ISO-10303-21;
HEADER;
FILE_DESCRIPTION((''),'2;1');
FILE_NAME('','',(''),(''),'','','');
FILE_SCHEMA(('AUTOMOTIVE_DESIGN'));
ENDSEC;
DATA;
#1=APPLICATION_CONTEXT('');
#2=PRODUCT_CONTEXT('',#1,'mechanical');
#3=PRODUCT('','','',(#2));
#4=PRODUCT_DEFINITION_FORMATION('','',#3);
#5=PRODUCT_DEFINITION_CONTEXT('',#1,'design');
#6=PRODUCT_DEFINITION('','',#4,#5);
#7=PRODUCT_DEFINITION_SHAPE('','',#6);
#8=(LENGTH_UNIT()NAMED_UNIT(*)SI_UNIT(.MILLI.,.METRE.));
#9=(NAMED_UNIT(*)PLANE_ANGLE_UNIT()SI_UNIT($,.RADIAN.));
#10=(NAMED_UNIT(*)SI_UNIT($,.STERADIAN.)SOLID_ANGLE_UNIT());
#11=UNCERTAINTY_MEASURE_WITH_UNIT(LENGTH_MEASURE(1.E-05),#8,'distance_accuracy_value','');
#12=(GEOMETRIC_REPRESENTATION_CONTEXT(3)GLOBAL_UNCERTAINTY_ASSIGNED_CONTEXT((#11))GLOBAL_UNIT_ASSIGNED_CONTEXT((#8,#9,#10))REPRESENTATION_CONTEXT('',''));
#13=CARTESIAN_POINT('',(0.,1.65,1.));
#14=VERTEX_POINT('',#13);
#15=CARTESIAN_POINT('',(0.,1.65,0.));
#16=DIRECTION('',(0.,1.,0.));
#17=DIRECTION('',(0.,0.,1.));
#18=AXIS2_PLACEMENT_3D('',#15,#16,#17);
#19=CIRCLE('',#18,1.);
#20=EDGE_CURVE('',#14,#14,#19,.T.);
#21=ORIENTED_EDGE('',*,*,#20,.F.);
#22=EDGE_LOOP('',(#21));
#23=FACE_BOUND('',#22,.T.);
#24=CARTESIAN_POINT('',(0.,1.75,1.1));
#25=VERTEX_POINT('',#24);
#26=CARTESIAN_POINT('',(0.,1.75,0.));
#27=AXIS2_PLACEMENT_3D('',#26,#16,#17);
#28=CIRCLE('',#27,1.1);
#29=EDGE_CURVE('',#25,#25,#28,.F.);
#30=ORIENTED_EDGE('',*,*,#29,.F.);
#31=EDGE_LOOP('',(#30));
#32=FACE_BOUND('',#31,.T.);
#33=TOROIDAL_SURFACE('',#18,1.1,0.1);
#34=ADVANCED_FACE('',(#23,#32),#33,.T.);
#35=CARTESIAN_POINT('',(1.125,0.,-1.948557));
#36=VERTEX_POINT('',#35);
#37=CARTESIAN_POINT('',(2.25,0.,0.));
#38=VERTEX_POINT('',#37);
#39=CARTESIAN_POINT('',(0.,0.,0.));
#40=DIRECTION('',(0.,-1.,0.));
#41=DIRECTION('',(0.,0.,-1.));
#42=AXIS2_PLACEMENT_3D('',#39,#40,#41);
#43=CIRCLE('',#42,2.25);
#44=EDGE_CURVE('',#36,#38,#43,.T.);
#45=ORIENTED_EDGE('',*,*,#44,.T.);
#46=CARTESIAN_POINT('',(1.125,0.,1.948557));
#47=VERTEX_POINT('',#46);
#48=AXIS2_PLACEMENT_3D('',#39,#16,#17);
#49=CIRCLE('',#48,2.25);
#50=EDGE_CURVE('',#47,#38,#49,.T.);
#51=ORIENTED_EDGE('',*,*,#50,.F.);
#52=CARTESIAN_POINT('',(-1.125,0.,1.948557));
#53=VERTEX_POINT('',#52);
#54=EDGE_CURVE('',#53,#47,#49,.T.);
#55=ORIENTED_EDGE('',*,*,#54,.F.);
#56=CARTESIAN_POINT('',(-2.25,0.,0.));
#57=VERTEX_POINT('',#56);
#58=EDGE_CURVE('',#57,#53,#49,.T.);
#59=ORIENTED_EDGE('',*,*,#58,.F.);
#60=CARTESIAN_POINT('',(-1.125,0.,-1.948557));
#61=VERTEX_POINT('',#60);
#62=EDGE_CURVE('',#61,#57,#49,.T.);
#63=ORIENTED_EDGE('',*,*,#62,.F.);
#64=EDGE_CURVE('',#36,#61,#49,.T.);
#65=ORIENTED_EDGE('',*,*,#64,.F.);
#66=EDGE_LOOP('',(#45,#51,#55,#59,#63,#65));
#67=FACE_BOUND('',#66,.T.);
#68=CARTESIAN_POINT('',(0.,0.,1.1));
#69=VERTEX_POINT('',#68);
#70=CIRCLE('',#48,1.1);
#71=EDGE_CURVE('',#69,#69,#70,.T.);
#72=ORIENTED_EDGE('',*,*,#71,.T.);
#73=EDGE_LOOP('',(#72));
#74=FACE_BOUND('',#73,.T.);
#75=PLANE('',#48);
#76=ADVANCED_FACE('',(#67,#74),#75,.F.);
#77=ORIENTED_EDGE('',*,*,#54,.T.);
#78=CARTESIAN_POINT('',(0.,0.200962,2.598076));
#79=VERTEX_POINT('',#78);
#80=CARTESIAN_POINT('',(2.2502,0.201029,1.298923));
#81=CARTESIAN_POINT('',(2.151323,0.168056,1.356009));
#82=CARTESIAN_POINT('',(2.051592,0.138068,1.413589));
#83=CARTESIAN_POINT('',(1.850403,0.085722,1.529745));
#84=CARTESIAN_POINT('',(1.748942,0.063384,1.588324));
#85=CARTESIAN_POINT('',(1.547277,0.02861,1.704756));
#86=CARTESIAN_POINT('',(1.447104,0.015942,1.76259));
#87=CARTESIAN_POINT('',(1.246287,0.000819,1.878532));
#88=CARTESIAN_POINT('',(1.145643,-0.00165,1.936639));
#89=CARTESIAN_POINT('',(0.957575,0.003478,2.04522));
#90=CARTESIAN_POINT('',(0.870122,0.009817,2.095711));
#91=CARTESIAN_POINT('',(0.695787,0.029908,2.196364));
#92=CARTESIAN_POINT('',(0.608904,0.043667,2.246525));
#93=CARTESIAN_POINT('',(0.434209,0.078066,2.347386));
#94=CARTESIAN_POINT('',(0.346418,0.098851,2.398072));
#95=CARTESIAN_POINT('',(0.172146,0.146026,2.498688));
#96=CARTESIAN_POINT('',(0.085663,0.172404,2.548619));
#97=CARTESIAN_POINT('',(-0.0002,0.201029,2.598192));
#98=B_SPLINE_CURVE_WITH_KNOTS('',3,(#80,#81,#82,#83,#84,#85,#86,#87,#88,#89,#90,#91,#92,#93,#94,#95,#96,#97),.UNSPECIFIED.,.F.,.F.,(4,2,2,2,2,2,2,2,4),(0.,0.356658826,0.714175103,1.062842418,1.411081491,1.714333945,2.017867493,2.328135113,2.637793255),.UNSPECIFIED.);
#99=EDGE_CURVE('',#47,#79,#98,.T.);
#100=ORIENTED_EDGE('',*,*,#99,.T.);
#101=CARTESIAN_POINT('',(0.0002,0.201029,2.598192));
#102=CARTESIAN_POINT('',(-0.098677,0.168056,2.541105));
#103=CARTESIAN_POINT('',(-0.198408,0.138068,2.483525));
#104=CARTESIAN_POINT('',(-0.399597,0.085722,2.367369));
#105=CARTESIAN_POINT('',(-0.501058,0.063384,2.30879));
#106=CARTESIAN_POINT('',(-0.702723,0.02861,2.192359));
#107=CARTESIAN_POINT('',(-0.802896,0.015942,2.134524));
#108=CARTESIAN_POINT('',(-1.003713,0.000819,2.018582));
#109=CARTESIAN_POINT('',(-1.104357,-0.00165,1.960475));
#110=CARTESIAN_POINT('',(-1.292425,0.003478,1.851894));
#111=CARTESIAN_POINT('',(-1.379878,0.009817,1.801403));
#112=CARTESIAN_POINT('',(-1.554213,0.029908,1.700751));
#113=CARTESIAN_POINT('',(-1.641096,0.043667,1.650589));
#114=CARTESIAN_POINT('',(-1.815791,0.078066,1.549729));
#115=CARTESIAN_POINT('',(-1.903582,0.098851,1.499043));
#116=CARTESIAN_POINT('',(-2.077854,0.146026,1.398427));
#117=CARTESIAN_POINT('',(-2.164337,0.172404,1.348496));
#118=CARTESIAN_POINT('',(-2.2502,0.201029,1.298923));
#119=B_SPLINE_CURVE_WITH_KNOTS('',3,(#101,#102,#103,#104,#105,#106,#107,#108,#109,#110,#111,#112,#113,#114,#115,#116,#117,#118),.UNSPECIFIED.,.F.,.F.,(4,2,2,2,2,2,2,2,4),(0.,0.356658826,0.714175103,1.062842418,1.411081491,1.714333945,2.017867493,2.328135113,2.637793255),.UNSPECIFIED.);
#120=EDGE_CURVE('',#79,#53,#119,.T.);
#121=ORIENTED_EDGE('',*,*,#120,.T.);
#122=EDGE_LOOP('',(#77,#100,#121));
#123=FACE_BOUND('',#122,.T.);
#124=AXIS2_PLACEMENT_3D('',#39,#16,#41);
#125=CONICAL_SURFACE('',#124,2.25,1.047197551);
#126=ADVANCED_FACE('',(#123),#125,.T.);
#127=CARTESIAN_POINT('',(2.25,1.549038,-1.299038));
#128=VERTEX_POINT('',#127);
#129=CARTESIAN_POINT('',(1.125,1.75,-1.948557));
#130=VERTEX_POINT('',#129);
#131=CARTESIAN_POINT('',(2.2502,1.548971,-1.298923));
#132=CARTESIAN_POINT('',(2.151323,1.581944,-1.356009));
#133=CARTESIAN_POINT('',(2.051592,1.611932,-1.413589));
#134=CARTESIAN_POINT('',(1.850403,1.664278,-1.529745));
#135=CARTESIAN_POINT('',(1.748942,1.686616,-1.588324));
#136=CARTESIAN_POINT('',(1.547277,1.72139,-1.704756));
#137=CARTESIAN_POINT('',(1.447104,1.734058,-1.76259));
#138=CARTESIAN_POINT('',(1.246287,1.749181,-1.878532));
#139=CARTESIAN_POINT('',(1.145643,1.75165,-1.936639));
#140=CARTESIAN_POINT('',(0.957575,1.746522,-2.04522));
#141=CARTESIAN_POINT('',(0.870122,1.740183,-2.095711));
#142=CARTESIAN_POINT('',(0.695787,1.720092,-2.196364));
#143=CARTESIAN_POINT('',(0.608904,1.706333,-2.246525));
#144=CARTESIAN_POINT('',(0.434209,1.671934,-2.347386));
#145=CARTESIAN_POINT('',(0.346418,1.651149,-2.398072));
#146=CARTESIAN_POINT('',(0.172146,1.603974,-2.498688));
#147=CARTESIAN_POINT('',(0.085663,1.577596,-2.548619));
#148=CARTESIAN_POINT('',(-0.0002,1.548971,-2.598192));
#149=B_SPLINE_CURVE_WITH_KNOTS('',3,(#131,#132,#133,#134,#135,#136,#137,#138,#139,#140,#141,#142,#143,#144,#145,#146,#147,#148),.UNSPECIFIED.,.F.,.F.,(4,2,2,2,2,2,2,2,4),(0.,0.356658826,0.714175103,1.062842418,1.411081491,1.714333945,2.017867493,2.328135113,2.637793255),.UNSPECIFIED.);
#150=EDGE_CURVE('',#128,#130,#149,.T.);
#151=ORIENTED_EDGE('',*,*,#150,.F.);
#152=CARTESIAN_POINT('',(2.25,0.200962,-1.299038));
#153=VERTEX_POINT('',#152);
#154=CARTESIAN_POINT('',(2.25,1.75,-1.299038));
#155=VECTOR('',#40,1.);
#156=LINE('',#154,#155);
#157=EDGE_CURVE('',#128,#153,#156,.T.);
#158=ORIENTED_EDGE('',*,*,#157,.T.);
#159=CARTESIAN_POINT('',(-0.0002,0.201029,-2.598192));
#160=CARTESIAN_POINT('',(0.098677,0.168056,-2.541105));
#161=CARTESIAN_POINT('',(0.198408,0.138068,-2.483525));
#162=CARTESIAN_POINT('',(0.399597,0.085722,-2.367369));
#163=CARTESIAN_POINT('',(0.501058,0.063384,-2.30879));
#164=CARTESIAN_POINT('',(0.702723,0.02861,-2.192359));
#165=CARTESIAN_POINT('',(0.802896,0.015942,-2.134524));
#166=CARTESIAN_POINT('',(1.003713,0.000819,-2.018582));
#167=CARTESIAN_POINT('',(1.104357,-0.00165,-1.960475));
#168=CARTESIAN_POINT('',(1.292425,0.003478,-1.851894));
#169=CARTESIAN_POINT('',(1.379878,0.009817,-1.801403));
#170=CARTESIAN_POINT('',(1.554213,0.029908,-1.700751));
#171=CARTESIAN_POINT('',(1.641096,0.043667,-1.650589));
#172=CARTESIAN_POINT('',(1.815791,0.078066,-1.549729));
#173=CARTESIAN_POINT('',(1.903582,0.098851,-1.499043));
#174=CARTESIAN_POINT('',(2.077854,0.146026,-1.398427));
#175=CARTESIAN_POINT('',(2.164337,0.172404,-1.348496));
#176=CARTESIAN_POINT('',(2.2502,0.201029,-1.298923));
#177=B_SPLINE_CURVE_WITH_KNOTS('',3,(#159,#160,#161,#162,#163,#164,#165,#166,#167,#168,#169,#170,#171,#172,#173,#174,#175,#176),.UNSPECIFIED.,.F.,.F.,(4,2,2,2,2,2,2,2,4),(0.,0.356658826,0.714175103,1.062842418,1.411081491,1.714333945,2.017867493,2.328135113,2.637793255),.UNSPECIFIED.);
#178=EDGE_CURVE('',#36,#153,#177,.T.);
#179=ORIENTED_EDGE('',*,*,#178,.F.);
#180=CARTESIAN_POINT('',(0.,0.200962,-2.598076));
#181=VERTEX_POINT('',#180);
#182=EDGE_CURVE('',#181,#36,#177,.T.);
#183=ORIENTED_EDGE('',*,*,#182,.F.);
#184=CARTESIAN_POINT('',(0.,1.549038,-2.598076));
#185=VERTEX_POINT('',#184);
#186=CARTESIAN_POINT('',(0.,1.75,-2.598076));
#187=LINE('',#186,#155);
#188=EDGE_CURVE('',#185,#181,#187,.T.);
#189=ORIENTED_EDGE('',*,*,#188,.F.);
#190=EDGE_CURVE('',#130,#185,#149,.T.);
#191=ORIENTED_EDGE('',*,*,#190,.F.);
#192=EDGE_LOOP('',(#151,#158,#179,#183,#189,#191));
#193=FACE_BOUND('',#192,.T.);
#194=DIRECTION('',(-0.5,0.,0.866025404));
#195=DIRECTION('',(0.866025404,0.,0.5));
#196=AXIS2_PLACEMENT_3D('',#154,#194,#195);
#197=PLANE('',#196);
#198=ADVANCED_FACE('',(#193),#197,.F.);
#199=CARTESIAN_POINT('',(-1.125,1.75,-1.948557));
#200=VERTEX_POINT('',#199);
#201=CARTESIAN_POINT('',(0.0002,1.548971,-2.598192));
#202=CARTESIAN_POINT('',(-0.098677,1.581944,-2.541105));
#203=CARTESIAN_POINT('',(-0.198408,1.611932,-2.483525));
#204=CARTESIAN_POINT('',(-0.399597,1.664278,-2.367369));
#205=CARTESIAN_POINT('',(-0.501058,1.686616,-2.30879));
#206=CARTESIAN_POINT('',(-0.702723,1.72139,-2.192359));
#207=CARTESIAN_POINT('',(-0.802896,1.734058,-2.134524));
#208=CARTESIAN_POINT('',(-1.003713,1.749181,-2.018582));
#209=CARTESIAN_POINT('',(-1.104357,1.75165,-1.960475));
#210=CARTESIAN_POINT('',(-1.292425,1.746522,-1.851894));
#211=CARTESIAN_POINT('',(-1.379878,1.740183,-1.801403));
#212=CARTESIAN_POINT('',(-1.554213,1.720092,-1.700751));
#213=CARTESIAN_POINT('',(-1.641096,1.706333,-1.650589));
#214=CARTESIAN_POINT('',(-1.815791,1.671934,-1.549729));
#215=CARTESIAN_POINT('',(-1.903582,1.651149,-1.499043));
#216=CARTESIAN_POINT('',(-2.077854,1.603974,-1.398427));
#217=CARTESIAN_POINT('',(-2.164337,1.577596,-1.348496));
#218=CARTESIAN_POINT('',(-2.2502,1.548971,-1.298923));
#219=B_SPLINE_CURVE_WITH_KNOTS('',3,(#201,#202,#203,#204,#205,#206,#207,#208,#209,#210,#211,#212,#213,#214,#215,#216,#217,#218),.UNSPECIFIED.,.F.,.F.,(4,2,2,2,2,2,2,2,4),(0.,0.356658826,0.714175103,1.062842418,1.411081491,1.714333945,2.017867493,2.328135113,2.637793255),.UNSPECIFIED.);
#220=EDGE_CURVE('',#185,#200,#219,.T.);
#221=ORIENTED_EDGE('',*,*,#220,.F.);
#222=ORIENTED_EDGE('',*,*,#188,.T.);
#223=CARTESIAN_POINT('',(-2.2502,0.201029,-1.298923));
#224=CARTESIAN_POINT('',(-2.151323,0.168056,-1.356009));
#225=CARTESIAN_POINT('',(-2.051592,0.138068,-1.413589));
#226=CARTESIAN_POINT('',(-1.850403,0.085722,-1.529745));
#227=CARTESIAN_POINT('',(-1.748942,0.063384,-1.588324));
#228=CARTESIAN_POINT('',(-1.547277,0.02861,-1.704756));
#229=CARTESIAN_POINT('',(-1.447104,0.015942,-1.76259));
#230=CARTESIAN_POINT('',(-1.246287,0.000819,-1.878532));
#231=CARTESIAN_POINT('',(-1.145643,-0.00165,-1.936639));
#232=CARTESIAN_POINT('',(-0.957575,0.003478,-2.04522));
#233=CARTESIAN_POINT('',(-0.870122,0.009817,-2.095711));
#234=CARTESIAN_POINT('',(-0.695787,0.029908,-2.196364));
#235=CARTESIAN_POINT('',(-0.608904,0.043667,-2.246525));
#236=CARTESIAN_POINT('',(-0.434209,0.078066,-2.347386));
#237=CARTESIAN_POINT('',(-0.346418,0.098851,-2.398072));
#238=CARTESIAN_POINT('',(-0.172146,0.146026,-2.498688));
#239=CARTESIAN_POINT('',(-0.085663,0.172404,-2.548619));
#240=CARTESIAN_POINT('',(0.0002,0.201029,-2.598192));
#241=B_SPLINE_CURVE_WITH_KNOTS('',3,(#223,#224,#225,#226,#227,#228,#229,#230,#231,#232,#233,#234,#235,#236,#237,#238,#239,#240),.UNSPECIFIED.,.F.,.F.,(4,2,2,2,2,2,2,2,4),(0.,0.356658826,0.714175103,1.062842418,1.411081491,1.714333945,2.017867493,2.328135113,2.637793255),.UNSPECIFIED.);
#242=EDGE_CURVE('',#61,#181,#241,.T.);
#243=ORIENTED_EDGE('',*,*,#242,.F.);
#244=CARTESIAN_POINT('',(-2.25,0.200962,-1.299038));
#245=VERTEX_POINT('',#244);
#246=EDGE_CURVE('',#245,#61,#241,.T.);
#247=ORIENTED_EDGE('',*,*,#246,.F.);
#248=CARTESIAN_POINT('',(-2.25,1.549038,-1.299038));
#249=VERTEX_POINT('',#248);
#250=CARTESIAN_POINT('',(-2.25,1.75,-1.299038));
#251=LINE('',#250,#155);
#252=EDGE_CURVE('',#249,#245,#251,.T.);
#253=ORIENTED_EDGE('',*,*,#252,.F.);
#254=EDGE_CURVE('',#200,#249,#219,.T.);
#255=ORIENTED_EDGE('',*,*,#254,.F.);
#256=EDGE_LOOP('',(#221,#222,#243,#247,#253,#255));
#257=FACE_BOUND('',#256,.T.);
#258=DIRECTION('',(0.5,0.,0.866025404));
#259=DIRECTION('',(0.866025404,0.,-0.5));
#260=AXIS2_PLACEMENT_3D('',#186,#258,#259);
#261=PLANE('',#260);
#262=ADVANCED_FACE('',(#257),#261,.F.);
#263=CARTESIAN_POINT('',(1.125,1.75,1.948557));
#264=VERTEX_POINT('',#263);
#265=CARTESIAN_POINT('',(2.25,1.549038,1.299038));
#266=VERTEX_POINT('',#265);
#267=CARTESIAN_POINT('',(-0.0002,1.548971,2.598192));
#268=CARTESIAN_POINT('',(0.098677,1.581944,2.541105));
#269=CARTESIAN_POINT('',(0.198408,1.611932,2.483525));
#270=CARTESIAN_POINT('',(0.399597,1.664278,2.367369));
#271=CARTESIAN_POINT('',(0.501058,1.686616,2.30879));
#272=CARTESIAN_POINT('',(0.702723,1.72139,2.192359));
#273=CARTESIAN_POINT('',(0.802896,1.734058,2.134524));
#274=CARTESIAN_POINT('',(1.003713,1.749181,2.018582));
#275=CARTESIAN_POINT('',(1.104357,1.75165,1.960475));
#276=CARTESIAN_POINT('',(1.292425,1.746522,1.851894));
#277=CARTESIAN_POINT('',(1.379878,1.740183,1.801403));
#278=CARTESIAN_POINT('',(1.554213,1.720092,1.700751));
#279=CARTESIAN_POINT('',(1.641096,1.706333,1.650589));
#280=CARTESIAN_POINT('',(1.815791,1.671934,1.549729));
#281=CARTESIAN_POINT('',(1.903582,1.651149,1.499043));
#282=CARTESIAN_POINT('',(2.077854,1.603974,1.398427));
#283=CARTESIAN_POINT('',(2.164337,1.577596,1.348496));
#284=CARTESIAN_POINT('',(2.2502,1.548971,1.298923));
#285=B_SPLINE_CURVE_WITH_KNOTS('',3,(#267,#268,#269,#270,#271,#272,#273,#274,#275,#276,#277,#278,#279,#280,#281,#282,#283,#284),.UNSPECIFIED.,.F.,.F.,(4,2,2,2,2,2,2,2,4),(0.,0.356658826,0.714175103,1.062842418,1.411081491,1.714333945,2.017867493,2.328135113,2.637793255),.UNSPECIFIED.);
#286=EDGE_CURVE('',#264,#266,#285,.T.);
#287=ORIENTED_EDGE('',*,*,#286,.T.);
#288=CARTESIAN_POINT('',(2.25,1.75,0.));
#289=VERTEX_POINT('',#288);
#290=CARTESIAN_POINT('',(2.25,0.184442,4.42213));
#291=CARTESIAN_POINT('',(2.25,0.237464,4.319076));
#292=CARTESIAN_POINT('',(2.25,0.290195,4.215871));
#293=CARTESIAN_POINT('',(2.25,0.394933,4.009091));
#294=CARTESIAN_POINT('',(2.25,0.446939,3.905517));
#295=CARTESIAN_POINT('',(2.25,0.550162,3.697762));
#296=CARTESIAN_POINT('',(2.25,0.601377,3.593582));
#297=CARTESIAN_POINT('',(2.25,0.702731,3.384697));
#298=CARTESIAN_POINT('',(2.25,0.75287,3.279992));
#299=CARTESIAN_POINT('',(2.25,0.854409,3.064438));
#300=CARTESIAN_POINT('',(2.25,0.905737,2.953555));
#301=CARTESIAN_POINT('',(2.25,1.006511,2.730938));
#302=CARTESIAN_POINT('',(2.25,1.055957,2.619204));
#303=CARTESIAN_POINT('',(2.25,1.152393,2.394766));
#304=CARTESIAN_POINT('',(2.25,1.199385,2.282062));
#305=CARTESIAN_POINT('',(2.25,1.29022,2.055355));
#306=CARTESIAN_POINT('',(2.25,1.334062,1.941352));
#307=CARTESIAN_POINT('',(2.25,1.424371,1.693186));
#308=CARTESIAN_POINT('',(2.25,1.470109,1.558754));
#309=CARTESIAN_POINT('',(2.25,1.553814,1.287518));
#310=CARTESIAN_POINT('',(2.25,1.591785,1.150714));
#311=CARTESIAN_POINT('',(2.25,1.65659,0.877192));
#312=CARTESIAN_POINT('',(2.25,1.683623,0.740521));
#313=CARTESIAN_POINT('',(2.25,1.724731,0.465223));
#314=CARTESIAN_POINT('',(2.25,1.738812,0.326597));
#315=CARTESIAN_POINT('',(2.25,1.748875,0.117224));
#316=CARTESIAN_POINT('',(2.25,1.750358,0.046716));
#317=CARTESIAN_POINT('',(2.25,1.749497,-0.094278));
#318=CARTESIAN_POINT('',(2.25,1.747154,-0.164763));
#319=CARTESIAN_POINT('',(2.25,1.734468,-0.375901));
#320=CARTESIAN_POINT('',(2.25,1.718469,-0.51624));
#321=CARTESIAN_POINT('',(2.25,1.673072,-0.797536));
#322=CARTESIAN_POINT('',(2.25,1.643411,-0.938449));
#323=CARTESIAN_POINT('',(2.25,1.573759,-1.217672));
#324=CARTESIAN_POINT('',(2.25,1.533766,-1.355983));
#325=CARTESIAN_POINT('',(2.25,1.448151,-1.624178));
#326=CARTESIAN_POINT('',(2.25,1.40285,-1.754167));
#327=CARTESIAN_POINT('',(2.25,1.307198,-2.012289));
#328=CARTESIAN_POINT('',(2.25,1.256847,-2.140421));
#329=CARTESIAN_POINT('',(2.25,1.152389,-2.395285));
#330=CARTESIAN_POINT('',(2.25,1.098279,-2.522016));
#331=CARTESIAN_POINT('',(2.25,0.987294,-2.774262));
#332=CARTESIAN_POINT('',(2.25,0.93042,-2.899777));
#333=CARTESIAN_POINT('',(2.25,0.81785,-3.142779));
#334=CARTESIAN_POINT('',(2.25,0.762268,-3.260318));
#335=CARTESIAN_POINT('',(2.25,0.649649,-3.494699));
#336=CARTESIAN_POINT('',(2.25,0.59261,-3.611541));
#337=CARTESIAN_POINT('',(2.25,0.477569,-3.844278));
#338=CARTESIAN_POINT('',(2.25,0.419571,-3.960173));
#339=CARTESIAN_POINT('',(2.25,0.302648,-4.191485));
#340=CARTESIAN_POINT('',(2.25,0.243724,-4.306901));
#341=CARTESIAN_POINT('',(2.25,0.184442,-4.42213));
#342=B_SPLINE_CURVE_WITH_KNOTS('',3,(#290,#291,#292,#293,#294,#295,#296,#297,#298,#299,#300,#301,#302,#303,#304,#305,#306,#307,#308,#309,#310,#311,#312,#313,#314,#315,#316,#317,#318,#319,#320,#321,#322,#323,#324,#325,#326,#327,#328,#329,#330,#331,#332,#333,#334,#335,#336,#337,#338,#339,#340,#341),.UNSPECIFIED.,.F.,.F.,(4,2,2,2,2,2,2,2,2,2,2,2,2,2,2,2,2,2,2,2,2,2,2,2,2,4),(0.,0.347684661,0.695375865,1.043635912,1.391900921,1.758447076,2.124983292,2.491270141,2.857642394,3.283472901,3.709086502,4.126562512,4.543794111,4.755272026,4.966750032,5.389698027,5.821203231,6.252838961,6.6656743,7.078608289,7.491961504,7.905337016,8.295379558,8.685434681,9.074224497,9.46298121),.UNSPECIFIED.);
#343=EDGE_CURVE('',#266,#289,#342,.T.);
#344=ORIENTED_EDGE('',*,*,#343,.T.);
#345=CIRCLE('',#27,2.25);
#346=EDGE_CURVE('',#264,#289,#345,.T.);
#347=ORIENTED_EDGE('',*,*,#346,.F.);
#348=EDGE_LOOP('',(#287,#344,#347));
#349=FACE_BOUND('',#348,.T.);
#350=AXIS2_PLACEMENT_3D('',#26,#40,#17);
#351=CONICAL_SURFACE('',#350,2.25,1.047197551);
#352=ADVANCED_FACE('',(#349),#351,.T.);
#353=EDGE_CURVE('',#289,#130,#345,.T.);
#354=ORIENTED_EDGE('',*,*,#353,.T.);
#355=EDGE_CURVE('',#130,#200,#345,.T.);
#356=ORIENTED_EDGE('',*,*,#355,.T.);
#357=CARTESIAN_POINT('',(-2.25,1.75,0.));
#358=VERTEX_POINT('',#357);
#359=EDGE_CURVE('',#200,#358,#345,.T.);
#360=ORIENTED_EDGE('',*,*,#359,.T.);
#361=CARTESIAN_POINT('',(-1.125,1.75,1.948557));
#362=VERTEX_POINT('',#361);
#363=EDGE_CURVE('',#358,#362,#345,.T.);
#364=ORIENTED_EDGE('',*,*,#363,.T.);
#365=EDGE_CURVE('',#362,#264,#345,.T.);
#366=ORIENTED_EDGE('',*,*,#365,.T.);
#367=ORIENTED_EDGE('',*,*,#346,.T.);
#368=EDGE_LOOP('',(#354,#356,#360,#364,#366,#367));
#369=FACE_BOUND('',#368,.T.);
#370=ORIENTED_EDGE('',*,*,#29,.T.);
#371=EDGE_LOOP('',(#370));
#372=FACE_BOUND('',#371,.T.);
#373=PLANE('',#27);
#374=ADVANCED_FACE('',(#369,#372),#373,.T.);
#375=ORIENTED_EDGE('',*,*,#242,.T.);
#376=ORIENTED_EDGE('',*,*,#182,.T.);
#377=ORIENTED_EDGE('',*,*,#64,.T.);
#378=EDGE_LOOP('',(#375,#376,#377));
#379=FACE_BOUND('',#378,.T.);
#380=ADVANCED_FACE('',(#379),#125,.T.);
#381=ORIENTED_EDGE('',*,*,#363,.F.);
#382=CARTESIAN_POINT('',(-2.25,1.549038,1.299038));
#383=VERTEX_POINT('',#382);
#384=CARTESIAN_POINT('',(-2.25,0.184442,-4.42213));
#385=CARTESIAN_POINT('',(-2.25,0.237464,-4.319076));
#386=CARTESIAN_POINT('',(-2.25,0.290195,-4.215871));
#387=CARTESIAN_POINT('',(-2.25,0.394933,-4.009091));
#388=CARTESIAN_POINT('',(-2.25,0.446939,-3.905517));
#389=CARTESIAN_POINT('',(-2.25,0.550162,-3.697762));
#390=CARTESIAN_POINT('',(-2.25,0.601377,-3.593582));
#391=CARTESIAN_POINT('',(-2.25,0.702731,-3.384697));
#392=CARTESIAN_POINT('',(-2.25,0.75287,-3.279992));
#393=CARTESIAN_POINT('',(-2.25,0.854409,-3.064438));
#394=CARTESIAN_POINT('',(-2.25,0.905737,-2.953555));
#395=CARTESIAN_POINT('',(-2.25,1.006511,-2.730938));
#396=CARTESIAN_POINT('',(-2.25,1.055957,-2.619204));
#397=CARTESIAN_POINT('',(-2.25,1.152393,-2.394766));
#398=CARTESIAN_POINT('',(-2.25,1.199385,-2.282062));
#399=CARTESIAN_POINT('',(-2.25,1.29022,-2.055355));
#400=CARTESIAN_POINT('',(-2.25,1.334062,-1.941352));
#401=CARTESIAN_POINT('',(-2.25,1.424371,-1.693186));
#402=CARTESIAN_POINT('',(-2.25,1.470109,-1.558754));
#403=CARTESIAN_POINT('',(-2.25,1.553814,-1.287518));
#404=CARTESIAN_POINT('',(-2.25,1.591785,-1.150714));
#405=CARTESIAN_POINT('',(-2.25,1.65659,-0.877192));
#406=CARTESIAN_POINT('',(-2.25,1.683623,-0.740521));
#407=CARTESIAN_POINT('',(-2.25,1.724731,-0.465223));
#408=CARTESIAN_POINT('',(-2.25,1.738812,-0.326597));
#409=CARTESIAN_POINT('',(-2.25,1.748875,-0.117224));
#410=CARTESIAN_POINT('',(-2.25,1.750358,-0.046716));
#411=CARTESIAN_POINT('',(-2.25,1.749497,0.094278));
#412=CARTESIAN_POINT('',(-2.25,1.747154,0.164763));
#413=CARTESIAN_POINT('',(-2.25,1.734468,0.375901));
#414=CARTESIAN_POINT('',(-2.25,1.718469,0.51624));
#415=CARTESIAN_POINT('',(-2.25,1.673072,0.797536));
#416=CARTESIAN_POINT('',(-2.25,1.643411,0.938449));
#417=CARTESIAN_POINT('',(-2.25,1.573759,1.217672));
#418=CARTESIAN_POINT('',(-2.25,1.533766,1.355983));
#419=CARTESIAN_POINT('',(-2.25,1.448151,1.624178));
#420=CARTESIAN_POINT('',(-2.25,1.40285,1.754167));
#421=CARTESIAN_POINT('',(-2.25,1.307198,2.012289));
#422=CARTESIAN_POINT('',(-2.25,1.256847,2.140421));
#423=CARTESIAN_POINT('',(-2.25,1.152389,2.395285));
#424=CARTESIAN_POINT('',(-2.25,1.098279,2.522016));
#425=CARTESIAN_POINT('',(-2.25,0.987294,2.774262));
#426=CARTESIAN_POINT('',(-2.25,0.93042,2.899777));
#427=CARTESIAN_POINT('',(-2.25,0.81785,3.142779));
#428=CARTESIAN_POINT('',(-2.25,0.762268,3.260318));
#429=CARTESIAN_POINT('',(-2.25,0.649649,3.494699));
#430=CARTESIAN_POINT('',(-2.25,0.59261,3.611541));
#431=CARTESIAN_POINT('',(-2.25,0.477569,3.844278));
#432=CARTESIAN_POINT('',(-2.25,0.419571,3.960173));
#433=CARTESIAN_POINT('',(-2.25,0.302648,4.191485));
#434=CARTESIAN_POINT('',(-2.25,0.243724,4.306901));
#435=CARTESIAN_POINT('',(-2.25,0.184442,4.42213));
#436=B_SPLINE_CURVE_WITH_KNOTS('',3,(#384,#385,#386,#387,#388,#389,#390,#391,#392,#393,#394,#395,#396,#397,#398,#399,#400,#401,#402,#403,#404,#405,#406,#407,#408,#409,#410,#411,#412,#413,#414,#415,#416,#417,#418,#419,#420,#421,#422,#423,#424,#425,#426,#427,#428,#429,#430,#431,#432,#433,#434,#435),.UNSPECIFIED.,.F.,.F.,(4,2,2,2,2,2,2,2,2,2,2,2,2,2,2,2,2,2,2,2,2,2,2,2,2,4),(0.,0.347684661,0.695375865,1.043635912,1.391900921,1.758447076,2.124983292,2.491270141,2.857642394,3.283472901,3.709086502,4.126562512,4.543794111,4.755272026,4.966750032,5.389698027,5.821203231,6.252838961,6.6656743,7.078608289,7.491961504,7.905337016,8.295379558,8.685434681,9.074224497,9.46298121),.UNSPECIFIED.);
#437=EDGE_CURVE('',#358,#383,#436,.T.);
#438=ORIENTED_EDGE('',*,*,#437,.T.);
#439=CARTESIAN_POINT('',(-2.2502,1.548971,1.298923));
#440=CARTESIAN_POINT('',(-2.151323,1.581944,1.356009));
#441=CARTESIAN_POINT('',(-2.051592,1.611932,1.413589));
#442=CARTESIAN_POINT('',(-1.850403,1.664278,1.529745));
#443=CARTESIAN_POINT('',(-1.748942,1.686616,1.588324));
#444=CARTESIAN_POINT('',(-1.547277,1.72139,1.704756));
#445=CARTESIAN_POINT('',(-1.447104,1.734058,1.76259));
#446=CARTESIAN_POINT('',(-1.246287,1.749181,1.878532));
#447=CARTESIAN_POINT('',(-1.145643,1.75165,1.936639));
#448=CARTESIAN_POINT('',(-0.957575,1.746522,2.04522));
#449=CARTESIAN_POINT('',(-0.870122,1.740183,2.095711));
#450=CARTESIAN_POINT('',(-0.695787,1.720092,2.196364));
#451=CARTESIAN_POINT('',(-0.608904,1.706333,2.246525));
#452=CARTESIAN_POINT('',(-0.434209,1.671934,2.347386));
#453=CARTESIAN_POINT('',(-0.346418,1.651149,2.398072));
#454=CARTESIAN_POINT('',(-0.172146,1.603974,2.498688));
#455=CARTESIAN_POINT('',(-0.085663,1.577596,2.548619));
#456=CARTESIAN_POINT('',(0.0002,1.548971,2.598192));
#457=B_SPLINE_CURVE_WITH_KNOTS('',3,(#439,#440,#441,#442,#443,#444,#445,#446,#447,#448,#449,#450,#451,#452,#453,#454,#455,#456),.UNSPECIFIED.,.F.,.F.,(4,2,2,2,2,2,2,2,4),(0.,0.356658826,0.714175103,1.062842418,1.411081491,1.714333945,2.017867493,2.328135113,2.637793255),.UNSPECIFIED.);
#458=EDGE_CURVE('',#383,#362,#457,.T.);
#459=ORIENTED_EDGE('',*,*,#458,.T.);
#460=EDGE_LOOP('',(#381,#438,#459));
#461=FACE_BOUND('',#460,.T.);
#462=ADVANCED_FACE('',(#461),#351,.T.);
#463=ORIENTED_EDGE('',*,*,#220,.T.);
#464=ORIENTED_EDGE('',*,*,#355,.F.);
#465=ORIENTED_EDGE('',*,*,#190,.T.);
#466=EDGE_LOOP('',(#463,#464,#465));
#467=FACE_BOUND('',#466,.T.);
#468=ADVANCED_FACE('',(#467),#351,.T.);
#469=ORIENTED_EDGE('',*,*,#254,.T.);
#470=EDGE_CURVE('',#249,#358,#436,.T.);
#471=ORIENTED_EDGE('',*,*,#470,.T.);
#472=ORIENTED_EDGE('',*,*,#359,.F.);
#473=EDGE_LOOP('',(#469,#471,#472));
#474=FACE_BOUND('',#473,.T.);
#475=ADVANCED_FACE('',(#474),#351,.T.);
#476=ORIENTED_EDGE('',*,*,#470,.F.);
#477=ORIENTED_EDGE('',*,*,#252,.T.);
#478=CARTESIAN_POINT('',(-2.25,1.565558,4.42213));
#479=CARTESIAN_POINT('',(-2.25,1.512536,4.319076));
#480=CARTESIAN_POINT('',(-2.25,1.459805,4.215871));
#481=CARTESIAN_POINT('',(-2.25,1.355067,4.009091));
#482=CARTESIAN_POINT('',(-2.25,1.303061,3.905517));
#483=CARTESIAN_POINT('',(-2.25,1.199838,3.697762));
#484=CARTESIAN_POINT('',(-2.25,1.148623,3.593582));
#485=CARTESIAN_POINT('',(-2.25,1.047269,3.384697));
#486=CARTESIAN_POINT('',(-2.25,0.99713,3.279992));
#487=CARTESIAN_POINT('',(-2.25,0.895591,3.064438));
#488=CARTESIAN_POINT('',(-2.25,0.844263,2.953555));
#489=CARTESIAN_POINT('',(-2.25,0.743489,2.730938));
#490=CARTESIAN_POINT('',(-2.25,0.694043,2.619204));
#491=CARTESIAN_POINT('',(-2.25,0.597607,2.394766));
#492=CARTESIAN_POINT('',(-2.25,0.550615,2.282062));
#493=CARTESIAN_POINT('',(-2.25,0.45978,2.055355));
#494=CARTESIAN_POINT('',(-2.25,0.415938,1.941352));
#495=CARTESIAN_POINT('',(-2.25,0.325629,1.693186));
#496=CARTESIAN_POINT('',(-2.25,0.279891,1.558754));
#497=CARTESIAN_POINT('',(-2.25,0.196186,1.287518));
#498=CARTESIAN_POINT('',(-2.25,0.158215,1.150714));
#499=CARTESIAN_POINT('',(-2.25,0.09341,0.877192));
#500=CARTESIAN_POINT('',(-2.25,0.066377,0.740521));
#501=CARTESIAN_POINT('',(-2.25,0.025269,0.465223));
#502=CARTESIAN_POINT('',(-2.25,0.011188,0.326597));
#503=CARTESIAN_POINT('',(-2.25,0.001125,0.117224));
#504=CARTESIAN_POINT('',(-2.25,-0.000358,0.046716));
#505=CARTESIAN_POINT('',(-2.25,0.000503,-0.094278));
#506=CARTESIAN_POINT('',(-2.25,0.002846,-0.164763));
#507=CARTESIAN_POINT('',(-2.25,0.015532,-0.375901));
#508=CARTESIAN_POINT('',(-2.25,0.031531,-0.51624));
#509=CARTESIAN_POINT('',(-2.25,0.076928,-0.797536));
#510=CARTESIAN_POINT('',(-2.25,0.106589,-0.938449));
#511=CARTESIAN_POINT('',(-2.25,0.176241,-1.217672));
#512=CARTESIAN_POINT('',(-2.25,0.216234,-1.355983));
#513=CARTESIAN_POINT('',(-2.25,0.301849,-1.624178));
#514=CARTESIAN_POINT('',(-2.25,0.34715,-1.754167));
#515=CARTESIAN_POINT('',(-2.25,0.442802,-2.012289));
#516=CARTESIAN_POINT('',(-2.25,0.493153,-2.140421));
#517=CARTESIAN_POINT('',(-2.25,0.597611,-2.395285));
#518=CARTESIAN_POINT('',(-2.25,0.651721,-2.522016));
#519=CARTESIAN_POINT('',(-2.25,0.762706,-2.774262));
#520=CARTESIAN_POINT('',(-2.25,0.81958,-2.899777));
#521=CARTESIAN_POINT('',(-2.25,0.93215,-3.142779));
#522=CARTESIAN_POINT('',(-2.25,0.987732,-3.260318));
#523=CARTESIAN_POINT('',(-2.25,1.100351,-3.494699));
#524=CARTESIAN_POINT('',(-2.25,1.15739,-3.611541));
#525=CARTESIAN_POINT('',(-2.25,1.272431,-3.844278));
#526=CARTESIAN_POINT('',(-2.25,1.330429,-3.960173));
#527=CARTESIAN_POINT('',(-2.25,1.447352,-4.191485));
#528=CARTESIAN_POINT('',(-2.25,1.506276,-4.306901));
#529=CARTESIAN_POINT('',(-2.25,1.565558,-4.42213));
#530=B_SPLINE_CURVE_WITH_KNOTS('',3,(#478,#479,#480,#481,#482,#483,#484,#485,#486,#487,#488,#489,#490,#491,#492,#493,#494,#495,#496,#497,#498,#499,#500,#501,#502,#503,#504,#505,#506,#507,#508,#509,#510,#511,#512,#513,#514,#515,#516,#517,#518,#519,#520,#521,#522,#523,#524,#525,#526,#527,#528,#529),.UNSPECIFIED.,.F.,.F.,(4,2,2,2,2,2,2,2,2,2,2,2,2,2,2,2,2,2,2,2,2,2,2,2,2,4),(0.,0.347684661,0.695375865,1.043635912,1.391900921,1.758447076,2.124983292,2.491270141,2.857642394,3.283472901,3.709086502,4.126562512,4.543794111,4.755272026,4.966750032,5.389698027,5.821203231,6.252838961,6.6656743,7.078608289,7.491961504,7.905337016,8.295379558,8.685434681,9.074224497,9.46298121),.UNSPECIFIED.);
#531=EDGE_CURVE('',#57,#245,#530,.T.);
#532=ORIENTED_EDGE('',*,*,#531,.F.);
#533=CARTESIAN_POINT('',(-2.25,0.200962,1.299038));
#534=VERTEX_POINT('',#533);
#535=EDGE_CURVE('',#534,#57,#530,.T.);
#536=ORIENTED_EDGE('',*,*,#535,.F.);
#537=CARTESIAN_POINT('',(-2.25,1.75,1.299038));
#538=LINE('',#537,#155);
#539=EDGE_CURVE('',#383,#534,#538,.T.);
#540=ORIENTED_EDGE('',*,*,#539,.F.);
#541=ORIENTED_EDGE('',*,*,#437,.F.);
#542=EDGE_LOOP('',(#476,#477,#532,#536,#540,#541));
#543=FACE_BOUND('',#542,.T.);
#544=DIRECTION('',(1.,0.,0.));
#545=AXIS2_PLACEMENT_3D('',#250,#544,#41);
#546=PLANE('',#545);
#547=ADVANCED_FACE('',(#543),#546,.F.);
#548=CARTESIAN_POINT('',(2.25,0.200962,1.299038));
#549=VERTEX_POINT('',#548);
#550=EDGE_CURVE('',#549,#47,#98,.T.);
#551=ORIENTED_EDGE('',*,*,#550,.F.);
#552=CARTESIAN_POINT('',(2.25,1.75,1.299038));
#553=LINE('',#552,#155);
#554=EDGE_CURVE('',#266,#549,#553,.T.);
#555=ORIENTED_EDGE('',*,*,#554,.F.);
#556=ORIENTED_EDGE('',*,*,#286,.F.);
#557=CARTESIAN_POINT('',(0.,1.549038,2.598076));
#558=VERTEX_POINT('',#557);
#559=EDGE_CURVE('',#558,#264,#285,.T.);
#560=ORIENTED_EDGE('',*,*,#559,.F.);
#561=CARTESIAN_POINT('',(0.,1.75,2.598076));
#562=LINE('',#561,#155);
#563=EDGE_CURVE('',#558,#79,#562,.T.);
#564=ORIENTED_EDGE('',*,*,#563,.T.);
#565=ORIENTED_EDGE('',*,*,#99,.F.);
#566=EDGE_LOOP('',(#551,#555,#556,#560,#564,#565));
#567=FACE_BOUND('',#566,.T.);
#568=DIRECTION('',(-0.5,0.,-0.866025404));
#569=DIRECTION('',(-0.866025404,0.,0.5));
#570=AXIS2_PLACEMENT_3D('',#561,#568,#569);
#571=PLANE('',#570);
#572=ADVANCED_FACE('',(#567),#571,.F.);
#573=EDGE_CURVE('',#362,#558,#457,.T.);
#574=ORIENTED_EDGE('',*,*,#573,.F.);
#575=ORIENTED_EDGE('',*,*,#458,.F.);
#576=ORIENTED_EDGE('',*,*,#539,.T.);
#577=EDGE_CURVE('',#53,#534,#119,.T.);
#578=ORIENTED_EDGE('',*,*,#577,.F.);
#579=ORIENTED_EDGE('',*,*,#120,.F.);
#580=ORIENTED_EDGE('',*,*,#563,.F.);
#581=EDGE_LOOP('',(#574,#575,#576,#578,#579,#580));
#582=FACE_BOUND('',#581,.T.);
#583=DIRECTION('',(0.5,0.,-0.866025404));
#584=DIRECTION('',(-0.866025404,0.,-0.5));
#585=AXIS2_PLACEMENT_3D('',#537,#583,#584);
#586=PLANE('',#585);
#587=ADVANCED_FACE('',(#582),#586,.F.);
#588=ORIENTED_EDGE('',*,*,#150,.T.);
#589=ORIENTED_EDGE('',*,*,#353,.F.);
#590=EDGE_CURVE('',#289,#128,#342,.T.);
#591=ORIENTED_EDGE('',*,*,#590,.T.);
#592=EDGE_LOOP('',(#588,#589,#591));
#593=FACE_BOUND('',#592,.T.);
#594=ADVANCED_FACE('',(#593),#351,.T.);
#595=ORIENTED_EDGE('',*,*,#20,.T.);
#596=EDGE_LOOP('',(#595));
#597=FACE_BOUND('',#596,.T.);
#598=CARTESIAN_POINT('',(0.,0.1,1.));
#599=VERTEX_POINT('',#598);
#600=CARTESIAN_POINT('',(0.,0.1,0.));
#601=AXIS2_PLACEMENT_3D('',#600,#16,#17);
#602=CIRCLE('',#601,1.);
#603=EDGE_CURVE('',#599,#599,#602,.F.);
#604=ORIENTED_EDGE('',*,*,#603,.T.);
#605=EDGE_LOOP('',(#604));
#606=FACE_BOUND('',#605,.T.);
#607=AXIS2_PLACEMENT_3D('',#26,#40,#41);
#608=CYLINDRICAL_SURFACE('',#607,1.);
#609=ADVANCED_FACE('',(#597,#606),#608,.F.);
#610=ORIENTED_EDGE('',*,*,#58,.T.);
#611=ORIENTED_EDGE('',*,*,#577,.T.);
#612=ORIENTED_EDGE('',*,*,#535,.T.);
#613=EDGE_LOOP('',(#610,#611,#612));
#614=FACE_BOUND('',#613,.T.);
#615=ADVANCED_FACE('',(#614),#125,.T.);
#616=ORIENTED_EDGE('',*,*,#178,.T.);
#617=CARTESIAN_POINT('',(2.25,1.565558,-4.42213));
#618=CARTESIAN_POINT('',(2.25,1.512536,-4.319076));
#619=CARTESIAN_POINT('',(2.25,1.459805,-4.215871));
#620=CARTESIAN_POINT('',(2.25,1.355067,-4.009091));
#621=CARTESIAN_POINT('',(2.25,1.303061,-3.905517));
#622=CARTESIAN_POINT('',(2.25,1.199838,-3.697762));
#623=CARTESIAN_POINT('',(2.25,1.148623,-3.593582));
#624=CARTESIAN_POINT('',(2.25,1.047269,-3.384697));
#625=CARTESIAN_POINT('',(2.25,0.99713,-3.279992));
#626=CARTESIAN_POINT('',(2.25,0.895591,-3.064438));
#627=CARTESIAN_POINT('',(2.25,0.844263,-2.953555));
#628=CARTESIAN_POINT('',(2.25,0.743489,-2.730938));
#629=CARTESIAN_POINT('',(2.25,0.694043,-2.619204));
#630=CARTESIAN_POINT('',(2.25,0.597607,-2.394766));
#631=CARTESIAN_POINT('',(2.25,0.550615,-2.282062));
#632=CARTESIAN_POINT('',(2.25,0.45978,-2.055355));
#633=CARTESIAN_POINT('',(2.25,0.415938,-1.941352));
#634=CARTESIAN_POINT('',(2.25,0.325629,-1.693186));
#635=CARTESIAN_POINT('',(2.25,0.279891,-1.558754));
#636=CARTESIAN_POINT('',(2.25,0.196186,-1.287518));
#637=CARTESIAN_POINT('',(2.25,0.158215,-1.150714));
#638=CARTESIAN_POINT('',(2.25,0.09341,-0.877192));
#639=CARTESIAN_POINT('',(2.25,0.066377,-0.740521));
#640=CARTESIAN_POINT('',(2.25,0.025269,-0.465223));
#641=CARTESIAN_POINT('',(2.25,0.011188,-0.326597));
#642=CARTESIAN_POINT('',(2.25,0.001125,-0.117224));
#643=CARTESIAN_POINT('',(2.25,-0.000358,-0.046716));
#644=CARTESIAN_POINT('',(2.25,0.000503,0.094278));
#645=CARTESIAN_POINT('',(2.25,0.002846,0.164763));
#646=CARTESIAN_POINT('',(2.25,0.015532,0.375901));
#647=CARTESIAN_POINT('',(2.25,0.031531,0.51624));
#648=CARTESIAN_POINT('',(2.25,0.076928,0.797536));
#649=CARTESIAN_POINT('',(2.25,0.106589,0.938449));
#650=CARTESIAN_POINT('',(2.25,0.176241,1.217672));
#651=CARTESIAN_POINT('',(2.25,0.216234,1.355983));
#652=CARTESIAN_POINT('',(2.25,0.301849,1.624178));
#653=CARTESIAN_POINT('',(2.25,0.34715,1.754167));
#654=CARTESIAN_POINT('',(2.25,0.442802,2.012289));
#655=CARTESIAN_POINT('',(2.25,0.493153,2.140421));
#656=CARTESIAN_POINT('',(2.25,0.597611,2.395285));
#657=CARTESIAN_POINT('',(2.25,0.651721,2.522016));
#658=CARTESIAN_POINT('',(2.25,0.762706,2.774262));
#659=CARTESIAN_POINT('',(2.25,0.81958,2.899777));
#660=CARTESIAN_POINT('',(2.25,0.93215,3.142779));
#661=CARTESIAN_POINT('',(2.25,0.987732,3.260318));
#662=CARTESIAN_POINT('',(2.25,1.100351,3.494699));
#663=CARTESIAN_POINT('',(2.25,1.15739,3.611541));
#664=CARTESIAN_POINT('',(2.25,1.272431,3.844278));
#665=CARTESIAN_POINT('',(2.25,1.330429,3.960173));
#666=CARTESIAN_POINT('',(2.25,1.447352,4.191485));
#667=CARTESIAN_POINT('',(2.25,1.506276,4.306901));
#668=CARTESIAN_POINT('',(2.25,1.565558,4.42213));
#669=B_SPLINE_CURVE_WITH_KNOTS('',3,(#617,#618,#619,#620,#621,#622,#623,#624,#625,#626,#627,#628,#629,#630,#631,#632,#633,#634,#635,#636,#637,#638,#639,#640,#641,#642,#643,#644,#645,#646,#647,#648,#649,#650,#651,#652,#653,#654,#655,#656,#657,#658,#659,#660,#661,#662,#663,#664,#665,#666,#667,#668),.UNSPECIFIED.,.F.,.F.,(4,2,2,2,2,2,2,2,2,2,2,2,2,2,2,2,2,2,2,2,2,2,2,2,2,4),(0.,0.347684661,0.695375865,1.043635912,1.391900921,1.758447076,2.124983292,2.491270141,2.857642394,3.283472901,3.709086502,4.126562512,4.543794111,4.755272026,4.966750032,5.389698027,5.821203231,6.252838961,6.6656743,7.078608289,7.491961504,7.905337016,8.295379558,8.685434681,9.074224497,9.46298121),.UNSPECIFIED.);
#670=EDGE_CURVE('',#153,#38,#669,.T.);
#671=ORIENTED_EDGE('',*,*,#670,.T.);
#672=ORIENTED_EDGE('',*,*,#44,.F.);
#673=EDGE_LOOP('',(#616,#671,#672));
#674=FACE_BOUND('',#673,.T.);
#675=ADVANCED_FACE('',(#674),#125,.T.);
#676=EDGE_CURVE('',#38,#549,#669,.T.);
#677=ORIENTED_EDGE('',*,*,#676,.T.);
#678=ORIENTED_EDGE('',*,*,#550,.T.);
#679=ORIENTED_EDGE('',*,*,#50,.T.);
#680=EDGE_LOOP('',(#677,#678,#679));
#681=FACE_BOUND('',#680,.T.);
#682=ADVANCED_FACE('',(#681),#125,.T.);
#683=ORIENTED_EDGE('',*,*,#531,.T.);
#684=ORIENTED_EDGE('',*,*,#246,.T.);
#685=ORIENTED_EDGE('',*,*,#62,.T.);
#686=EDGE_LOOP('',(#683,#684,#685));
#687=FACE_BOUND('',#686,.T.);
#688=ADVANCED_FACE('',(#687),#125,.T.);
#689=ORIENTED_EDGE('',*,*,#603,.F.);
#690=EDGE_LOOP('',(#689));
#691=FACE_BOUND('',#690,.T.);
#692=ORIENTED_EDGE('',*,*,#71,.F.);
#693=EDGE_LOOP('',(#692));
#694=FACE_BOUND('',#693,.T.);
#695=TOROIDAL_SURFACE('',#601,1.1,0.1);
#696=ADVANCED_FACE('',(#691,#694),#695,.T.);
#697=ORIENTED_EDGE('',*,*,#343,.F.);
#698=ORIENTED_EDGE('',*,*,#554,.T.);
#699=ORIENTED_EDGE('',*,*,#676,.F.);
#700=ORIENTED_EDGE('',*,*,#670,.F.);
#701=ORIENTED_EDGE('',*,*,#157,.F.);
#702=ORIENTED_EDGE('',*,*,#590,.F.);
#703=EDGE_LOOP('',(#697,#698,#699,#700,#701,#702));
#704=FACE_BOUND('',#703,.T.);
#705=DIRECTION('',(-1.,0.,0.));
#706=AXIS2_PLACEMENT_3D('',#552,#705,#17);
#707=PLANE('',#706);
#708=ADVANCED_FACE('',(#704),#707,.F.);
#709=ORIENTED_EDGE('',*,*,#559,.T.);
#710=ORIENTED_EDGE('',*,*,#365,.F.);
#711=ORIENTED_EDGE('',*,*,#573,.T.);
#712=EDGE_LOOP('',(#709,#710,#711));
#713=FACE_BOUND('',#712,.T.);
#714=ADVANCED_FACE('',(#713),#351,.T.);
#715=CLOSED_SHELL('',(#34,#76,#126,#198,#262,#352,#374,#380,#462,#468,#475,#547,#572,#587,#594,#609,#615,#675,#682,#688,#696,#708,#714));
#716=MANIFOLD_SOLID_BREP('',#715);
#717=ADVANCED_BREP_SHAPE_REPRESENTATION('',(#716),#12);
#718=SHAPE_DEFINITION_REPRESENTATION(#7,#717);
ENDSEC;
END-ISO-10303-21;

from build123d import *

# Parameters (mm, degrees)
SKETCH1_R           = 1
BOSS_EXTRUDE1_DEPTH = 1.75
SKETCH2_OUTSIDE_W   = 13.98
SKETCH2_OUTSIDE_H   = 14.676
SKETCH2_OUTSIDE_R   = 2.25
CUT_EXTRUDE1_DEPTH  = 1.75
CUT_EXTRUDE1_DRAFT  = -60
SKETCH3_OUTSIDE_W   = 13.98
SKETCH3_OUTSIDE_H   = 14.676
SKETCH3_OUTSIDE_R   = 2.25
CUT_EXTRUDE2_DEPTH  = 1.75
CUT_EXTRUDE2_DRAFT  = -60
FILLET1_R           = 0.1


with BuildPart() as part:
    # Sketch1 → Boss-Extrude1 (new body)
    with BuildSketch(Plane(origin=(0, 0, 0), x_dir=(1, 0, 0), z_dir=(0, 1, 0))):
        Polygon((0, -2.598076211), (2.25, -1.299038106), (2.25, 1.299038106), (0, 2.598076211), (-2.25, 1.299038106), (-2.25, -1.299038106), align=None)
        with Locations(Location((0, 0, 0), (0, 0, 270))):
            Circle(SKETCH1_R, mode=Mode.SUBTRACT)
    extrude(amount=BOSS_EXTRUDE1_DEPTH)


with BuildPart() as cut_extrude1_tool:
    # Sketch2 outside → Cut-Extrude1 (with draft: the straight prism first)
    with BuildSketch(Plane(origin=(0, 1.75, 0), x_dir=(1, 0, 0), z_dir=(0, 1, 0))):
        Rectangle(SKETCH2_OUTSIDE_W, SKETCH2_OUTSIDE_H)
        Circle(SKETCH2_OUTSIDE_R, mode=Mode.SUBTRACT)
    extrude(amount=-CUT_EXTRUDE1_DEPTH)
    # Cut-Extrude1: the draft: its side faces are tilted about the plane it starts from
    cut_extrude1_sides = [cut_extrude1_tool.faces().sort_by_distance(p)[0] for p in [
        (0, 0.875, 7.338),
        (6.99, 0.875, 0),
        (0, 0.875, -7.338),
        (-6.99, 0.875, 0),
        (-2.25, 0.875, 0),
    ]]
    draft(cut_extrude1_sides, Plane(origin=(0, 1.75, 0), x_dir=(1, 0, 0), z_dir=(0, 1, 0)), CUT_EXTRUDE1_DRAFT)


with BuildPart() as part_1:
    add(part.part)

    # Cut-Extrude1: cut by cut_extrude1_tool
    add(cut_extrude1_tool.part, mode=Mode.SUBTRACT)


with BuildPart() as cut_extrude2_tool:
    # Sketch3 outside → Cut-Extrude2 (with draft: the straight prism first)
    with BuildSketch(Plane.XZ):
        Rectangle(SKETCH3_OUTSIDE_W, SKETCH3_OUTSIDE_H)
        Circle(SKETCH3_OUTSIDE_R, mode=Mode.SUBTRACT)
    extrude(amount=-CUT_EXTRUDE2_DEPTH)
    # Cut-Extrude2: the draft: its side faces are tilted about the plane it starts from
    cut_extrude2_sides = [cut_extrude2_tool.faces().sort_by_distance(p)[0] for p in [
        (0, 0.875, -7.338),
        (6.99, 0.875, 0),
        (0, 0.875, 7.338),
        (-6.99, 0.875, 0),
        (-2.25, 0.875, 0),
    ]]
    draft(cut_extrude2_sides, Plane.XZ, CUT_EXTRUDE2_DRAFT)


with BuildPart() as part_2:
    add(part_1.part)

    # Cut-Extrude2: cut by cut_extrude2_tool
    add(cut_extrude2_tool.part, mode=Mode.SUBTRACT)

    # Fillet1
    fillet1_edges = [part_2.edges().sort_by_distance(p)[0] for p in [
        (0, 0, -1),
        (0, 1.75, -1),
    ]]
    fillet(fillet1_edges, radius=FILLET1_R)


solid = part_2.part
